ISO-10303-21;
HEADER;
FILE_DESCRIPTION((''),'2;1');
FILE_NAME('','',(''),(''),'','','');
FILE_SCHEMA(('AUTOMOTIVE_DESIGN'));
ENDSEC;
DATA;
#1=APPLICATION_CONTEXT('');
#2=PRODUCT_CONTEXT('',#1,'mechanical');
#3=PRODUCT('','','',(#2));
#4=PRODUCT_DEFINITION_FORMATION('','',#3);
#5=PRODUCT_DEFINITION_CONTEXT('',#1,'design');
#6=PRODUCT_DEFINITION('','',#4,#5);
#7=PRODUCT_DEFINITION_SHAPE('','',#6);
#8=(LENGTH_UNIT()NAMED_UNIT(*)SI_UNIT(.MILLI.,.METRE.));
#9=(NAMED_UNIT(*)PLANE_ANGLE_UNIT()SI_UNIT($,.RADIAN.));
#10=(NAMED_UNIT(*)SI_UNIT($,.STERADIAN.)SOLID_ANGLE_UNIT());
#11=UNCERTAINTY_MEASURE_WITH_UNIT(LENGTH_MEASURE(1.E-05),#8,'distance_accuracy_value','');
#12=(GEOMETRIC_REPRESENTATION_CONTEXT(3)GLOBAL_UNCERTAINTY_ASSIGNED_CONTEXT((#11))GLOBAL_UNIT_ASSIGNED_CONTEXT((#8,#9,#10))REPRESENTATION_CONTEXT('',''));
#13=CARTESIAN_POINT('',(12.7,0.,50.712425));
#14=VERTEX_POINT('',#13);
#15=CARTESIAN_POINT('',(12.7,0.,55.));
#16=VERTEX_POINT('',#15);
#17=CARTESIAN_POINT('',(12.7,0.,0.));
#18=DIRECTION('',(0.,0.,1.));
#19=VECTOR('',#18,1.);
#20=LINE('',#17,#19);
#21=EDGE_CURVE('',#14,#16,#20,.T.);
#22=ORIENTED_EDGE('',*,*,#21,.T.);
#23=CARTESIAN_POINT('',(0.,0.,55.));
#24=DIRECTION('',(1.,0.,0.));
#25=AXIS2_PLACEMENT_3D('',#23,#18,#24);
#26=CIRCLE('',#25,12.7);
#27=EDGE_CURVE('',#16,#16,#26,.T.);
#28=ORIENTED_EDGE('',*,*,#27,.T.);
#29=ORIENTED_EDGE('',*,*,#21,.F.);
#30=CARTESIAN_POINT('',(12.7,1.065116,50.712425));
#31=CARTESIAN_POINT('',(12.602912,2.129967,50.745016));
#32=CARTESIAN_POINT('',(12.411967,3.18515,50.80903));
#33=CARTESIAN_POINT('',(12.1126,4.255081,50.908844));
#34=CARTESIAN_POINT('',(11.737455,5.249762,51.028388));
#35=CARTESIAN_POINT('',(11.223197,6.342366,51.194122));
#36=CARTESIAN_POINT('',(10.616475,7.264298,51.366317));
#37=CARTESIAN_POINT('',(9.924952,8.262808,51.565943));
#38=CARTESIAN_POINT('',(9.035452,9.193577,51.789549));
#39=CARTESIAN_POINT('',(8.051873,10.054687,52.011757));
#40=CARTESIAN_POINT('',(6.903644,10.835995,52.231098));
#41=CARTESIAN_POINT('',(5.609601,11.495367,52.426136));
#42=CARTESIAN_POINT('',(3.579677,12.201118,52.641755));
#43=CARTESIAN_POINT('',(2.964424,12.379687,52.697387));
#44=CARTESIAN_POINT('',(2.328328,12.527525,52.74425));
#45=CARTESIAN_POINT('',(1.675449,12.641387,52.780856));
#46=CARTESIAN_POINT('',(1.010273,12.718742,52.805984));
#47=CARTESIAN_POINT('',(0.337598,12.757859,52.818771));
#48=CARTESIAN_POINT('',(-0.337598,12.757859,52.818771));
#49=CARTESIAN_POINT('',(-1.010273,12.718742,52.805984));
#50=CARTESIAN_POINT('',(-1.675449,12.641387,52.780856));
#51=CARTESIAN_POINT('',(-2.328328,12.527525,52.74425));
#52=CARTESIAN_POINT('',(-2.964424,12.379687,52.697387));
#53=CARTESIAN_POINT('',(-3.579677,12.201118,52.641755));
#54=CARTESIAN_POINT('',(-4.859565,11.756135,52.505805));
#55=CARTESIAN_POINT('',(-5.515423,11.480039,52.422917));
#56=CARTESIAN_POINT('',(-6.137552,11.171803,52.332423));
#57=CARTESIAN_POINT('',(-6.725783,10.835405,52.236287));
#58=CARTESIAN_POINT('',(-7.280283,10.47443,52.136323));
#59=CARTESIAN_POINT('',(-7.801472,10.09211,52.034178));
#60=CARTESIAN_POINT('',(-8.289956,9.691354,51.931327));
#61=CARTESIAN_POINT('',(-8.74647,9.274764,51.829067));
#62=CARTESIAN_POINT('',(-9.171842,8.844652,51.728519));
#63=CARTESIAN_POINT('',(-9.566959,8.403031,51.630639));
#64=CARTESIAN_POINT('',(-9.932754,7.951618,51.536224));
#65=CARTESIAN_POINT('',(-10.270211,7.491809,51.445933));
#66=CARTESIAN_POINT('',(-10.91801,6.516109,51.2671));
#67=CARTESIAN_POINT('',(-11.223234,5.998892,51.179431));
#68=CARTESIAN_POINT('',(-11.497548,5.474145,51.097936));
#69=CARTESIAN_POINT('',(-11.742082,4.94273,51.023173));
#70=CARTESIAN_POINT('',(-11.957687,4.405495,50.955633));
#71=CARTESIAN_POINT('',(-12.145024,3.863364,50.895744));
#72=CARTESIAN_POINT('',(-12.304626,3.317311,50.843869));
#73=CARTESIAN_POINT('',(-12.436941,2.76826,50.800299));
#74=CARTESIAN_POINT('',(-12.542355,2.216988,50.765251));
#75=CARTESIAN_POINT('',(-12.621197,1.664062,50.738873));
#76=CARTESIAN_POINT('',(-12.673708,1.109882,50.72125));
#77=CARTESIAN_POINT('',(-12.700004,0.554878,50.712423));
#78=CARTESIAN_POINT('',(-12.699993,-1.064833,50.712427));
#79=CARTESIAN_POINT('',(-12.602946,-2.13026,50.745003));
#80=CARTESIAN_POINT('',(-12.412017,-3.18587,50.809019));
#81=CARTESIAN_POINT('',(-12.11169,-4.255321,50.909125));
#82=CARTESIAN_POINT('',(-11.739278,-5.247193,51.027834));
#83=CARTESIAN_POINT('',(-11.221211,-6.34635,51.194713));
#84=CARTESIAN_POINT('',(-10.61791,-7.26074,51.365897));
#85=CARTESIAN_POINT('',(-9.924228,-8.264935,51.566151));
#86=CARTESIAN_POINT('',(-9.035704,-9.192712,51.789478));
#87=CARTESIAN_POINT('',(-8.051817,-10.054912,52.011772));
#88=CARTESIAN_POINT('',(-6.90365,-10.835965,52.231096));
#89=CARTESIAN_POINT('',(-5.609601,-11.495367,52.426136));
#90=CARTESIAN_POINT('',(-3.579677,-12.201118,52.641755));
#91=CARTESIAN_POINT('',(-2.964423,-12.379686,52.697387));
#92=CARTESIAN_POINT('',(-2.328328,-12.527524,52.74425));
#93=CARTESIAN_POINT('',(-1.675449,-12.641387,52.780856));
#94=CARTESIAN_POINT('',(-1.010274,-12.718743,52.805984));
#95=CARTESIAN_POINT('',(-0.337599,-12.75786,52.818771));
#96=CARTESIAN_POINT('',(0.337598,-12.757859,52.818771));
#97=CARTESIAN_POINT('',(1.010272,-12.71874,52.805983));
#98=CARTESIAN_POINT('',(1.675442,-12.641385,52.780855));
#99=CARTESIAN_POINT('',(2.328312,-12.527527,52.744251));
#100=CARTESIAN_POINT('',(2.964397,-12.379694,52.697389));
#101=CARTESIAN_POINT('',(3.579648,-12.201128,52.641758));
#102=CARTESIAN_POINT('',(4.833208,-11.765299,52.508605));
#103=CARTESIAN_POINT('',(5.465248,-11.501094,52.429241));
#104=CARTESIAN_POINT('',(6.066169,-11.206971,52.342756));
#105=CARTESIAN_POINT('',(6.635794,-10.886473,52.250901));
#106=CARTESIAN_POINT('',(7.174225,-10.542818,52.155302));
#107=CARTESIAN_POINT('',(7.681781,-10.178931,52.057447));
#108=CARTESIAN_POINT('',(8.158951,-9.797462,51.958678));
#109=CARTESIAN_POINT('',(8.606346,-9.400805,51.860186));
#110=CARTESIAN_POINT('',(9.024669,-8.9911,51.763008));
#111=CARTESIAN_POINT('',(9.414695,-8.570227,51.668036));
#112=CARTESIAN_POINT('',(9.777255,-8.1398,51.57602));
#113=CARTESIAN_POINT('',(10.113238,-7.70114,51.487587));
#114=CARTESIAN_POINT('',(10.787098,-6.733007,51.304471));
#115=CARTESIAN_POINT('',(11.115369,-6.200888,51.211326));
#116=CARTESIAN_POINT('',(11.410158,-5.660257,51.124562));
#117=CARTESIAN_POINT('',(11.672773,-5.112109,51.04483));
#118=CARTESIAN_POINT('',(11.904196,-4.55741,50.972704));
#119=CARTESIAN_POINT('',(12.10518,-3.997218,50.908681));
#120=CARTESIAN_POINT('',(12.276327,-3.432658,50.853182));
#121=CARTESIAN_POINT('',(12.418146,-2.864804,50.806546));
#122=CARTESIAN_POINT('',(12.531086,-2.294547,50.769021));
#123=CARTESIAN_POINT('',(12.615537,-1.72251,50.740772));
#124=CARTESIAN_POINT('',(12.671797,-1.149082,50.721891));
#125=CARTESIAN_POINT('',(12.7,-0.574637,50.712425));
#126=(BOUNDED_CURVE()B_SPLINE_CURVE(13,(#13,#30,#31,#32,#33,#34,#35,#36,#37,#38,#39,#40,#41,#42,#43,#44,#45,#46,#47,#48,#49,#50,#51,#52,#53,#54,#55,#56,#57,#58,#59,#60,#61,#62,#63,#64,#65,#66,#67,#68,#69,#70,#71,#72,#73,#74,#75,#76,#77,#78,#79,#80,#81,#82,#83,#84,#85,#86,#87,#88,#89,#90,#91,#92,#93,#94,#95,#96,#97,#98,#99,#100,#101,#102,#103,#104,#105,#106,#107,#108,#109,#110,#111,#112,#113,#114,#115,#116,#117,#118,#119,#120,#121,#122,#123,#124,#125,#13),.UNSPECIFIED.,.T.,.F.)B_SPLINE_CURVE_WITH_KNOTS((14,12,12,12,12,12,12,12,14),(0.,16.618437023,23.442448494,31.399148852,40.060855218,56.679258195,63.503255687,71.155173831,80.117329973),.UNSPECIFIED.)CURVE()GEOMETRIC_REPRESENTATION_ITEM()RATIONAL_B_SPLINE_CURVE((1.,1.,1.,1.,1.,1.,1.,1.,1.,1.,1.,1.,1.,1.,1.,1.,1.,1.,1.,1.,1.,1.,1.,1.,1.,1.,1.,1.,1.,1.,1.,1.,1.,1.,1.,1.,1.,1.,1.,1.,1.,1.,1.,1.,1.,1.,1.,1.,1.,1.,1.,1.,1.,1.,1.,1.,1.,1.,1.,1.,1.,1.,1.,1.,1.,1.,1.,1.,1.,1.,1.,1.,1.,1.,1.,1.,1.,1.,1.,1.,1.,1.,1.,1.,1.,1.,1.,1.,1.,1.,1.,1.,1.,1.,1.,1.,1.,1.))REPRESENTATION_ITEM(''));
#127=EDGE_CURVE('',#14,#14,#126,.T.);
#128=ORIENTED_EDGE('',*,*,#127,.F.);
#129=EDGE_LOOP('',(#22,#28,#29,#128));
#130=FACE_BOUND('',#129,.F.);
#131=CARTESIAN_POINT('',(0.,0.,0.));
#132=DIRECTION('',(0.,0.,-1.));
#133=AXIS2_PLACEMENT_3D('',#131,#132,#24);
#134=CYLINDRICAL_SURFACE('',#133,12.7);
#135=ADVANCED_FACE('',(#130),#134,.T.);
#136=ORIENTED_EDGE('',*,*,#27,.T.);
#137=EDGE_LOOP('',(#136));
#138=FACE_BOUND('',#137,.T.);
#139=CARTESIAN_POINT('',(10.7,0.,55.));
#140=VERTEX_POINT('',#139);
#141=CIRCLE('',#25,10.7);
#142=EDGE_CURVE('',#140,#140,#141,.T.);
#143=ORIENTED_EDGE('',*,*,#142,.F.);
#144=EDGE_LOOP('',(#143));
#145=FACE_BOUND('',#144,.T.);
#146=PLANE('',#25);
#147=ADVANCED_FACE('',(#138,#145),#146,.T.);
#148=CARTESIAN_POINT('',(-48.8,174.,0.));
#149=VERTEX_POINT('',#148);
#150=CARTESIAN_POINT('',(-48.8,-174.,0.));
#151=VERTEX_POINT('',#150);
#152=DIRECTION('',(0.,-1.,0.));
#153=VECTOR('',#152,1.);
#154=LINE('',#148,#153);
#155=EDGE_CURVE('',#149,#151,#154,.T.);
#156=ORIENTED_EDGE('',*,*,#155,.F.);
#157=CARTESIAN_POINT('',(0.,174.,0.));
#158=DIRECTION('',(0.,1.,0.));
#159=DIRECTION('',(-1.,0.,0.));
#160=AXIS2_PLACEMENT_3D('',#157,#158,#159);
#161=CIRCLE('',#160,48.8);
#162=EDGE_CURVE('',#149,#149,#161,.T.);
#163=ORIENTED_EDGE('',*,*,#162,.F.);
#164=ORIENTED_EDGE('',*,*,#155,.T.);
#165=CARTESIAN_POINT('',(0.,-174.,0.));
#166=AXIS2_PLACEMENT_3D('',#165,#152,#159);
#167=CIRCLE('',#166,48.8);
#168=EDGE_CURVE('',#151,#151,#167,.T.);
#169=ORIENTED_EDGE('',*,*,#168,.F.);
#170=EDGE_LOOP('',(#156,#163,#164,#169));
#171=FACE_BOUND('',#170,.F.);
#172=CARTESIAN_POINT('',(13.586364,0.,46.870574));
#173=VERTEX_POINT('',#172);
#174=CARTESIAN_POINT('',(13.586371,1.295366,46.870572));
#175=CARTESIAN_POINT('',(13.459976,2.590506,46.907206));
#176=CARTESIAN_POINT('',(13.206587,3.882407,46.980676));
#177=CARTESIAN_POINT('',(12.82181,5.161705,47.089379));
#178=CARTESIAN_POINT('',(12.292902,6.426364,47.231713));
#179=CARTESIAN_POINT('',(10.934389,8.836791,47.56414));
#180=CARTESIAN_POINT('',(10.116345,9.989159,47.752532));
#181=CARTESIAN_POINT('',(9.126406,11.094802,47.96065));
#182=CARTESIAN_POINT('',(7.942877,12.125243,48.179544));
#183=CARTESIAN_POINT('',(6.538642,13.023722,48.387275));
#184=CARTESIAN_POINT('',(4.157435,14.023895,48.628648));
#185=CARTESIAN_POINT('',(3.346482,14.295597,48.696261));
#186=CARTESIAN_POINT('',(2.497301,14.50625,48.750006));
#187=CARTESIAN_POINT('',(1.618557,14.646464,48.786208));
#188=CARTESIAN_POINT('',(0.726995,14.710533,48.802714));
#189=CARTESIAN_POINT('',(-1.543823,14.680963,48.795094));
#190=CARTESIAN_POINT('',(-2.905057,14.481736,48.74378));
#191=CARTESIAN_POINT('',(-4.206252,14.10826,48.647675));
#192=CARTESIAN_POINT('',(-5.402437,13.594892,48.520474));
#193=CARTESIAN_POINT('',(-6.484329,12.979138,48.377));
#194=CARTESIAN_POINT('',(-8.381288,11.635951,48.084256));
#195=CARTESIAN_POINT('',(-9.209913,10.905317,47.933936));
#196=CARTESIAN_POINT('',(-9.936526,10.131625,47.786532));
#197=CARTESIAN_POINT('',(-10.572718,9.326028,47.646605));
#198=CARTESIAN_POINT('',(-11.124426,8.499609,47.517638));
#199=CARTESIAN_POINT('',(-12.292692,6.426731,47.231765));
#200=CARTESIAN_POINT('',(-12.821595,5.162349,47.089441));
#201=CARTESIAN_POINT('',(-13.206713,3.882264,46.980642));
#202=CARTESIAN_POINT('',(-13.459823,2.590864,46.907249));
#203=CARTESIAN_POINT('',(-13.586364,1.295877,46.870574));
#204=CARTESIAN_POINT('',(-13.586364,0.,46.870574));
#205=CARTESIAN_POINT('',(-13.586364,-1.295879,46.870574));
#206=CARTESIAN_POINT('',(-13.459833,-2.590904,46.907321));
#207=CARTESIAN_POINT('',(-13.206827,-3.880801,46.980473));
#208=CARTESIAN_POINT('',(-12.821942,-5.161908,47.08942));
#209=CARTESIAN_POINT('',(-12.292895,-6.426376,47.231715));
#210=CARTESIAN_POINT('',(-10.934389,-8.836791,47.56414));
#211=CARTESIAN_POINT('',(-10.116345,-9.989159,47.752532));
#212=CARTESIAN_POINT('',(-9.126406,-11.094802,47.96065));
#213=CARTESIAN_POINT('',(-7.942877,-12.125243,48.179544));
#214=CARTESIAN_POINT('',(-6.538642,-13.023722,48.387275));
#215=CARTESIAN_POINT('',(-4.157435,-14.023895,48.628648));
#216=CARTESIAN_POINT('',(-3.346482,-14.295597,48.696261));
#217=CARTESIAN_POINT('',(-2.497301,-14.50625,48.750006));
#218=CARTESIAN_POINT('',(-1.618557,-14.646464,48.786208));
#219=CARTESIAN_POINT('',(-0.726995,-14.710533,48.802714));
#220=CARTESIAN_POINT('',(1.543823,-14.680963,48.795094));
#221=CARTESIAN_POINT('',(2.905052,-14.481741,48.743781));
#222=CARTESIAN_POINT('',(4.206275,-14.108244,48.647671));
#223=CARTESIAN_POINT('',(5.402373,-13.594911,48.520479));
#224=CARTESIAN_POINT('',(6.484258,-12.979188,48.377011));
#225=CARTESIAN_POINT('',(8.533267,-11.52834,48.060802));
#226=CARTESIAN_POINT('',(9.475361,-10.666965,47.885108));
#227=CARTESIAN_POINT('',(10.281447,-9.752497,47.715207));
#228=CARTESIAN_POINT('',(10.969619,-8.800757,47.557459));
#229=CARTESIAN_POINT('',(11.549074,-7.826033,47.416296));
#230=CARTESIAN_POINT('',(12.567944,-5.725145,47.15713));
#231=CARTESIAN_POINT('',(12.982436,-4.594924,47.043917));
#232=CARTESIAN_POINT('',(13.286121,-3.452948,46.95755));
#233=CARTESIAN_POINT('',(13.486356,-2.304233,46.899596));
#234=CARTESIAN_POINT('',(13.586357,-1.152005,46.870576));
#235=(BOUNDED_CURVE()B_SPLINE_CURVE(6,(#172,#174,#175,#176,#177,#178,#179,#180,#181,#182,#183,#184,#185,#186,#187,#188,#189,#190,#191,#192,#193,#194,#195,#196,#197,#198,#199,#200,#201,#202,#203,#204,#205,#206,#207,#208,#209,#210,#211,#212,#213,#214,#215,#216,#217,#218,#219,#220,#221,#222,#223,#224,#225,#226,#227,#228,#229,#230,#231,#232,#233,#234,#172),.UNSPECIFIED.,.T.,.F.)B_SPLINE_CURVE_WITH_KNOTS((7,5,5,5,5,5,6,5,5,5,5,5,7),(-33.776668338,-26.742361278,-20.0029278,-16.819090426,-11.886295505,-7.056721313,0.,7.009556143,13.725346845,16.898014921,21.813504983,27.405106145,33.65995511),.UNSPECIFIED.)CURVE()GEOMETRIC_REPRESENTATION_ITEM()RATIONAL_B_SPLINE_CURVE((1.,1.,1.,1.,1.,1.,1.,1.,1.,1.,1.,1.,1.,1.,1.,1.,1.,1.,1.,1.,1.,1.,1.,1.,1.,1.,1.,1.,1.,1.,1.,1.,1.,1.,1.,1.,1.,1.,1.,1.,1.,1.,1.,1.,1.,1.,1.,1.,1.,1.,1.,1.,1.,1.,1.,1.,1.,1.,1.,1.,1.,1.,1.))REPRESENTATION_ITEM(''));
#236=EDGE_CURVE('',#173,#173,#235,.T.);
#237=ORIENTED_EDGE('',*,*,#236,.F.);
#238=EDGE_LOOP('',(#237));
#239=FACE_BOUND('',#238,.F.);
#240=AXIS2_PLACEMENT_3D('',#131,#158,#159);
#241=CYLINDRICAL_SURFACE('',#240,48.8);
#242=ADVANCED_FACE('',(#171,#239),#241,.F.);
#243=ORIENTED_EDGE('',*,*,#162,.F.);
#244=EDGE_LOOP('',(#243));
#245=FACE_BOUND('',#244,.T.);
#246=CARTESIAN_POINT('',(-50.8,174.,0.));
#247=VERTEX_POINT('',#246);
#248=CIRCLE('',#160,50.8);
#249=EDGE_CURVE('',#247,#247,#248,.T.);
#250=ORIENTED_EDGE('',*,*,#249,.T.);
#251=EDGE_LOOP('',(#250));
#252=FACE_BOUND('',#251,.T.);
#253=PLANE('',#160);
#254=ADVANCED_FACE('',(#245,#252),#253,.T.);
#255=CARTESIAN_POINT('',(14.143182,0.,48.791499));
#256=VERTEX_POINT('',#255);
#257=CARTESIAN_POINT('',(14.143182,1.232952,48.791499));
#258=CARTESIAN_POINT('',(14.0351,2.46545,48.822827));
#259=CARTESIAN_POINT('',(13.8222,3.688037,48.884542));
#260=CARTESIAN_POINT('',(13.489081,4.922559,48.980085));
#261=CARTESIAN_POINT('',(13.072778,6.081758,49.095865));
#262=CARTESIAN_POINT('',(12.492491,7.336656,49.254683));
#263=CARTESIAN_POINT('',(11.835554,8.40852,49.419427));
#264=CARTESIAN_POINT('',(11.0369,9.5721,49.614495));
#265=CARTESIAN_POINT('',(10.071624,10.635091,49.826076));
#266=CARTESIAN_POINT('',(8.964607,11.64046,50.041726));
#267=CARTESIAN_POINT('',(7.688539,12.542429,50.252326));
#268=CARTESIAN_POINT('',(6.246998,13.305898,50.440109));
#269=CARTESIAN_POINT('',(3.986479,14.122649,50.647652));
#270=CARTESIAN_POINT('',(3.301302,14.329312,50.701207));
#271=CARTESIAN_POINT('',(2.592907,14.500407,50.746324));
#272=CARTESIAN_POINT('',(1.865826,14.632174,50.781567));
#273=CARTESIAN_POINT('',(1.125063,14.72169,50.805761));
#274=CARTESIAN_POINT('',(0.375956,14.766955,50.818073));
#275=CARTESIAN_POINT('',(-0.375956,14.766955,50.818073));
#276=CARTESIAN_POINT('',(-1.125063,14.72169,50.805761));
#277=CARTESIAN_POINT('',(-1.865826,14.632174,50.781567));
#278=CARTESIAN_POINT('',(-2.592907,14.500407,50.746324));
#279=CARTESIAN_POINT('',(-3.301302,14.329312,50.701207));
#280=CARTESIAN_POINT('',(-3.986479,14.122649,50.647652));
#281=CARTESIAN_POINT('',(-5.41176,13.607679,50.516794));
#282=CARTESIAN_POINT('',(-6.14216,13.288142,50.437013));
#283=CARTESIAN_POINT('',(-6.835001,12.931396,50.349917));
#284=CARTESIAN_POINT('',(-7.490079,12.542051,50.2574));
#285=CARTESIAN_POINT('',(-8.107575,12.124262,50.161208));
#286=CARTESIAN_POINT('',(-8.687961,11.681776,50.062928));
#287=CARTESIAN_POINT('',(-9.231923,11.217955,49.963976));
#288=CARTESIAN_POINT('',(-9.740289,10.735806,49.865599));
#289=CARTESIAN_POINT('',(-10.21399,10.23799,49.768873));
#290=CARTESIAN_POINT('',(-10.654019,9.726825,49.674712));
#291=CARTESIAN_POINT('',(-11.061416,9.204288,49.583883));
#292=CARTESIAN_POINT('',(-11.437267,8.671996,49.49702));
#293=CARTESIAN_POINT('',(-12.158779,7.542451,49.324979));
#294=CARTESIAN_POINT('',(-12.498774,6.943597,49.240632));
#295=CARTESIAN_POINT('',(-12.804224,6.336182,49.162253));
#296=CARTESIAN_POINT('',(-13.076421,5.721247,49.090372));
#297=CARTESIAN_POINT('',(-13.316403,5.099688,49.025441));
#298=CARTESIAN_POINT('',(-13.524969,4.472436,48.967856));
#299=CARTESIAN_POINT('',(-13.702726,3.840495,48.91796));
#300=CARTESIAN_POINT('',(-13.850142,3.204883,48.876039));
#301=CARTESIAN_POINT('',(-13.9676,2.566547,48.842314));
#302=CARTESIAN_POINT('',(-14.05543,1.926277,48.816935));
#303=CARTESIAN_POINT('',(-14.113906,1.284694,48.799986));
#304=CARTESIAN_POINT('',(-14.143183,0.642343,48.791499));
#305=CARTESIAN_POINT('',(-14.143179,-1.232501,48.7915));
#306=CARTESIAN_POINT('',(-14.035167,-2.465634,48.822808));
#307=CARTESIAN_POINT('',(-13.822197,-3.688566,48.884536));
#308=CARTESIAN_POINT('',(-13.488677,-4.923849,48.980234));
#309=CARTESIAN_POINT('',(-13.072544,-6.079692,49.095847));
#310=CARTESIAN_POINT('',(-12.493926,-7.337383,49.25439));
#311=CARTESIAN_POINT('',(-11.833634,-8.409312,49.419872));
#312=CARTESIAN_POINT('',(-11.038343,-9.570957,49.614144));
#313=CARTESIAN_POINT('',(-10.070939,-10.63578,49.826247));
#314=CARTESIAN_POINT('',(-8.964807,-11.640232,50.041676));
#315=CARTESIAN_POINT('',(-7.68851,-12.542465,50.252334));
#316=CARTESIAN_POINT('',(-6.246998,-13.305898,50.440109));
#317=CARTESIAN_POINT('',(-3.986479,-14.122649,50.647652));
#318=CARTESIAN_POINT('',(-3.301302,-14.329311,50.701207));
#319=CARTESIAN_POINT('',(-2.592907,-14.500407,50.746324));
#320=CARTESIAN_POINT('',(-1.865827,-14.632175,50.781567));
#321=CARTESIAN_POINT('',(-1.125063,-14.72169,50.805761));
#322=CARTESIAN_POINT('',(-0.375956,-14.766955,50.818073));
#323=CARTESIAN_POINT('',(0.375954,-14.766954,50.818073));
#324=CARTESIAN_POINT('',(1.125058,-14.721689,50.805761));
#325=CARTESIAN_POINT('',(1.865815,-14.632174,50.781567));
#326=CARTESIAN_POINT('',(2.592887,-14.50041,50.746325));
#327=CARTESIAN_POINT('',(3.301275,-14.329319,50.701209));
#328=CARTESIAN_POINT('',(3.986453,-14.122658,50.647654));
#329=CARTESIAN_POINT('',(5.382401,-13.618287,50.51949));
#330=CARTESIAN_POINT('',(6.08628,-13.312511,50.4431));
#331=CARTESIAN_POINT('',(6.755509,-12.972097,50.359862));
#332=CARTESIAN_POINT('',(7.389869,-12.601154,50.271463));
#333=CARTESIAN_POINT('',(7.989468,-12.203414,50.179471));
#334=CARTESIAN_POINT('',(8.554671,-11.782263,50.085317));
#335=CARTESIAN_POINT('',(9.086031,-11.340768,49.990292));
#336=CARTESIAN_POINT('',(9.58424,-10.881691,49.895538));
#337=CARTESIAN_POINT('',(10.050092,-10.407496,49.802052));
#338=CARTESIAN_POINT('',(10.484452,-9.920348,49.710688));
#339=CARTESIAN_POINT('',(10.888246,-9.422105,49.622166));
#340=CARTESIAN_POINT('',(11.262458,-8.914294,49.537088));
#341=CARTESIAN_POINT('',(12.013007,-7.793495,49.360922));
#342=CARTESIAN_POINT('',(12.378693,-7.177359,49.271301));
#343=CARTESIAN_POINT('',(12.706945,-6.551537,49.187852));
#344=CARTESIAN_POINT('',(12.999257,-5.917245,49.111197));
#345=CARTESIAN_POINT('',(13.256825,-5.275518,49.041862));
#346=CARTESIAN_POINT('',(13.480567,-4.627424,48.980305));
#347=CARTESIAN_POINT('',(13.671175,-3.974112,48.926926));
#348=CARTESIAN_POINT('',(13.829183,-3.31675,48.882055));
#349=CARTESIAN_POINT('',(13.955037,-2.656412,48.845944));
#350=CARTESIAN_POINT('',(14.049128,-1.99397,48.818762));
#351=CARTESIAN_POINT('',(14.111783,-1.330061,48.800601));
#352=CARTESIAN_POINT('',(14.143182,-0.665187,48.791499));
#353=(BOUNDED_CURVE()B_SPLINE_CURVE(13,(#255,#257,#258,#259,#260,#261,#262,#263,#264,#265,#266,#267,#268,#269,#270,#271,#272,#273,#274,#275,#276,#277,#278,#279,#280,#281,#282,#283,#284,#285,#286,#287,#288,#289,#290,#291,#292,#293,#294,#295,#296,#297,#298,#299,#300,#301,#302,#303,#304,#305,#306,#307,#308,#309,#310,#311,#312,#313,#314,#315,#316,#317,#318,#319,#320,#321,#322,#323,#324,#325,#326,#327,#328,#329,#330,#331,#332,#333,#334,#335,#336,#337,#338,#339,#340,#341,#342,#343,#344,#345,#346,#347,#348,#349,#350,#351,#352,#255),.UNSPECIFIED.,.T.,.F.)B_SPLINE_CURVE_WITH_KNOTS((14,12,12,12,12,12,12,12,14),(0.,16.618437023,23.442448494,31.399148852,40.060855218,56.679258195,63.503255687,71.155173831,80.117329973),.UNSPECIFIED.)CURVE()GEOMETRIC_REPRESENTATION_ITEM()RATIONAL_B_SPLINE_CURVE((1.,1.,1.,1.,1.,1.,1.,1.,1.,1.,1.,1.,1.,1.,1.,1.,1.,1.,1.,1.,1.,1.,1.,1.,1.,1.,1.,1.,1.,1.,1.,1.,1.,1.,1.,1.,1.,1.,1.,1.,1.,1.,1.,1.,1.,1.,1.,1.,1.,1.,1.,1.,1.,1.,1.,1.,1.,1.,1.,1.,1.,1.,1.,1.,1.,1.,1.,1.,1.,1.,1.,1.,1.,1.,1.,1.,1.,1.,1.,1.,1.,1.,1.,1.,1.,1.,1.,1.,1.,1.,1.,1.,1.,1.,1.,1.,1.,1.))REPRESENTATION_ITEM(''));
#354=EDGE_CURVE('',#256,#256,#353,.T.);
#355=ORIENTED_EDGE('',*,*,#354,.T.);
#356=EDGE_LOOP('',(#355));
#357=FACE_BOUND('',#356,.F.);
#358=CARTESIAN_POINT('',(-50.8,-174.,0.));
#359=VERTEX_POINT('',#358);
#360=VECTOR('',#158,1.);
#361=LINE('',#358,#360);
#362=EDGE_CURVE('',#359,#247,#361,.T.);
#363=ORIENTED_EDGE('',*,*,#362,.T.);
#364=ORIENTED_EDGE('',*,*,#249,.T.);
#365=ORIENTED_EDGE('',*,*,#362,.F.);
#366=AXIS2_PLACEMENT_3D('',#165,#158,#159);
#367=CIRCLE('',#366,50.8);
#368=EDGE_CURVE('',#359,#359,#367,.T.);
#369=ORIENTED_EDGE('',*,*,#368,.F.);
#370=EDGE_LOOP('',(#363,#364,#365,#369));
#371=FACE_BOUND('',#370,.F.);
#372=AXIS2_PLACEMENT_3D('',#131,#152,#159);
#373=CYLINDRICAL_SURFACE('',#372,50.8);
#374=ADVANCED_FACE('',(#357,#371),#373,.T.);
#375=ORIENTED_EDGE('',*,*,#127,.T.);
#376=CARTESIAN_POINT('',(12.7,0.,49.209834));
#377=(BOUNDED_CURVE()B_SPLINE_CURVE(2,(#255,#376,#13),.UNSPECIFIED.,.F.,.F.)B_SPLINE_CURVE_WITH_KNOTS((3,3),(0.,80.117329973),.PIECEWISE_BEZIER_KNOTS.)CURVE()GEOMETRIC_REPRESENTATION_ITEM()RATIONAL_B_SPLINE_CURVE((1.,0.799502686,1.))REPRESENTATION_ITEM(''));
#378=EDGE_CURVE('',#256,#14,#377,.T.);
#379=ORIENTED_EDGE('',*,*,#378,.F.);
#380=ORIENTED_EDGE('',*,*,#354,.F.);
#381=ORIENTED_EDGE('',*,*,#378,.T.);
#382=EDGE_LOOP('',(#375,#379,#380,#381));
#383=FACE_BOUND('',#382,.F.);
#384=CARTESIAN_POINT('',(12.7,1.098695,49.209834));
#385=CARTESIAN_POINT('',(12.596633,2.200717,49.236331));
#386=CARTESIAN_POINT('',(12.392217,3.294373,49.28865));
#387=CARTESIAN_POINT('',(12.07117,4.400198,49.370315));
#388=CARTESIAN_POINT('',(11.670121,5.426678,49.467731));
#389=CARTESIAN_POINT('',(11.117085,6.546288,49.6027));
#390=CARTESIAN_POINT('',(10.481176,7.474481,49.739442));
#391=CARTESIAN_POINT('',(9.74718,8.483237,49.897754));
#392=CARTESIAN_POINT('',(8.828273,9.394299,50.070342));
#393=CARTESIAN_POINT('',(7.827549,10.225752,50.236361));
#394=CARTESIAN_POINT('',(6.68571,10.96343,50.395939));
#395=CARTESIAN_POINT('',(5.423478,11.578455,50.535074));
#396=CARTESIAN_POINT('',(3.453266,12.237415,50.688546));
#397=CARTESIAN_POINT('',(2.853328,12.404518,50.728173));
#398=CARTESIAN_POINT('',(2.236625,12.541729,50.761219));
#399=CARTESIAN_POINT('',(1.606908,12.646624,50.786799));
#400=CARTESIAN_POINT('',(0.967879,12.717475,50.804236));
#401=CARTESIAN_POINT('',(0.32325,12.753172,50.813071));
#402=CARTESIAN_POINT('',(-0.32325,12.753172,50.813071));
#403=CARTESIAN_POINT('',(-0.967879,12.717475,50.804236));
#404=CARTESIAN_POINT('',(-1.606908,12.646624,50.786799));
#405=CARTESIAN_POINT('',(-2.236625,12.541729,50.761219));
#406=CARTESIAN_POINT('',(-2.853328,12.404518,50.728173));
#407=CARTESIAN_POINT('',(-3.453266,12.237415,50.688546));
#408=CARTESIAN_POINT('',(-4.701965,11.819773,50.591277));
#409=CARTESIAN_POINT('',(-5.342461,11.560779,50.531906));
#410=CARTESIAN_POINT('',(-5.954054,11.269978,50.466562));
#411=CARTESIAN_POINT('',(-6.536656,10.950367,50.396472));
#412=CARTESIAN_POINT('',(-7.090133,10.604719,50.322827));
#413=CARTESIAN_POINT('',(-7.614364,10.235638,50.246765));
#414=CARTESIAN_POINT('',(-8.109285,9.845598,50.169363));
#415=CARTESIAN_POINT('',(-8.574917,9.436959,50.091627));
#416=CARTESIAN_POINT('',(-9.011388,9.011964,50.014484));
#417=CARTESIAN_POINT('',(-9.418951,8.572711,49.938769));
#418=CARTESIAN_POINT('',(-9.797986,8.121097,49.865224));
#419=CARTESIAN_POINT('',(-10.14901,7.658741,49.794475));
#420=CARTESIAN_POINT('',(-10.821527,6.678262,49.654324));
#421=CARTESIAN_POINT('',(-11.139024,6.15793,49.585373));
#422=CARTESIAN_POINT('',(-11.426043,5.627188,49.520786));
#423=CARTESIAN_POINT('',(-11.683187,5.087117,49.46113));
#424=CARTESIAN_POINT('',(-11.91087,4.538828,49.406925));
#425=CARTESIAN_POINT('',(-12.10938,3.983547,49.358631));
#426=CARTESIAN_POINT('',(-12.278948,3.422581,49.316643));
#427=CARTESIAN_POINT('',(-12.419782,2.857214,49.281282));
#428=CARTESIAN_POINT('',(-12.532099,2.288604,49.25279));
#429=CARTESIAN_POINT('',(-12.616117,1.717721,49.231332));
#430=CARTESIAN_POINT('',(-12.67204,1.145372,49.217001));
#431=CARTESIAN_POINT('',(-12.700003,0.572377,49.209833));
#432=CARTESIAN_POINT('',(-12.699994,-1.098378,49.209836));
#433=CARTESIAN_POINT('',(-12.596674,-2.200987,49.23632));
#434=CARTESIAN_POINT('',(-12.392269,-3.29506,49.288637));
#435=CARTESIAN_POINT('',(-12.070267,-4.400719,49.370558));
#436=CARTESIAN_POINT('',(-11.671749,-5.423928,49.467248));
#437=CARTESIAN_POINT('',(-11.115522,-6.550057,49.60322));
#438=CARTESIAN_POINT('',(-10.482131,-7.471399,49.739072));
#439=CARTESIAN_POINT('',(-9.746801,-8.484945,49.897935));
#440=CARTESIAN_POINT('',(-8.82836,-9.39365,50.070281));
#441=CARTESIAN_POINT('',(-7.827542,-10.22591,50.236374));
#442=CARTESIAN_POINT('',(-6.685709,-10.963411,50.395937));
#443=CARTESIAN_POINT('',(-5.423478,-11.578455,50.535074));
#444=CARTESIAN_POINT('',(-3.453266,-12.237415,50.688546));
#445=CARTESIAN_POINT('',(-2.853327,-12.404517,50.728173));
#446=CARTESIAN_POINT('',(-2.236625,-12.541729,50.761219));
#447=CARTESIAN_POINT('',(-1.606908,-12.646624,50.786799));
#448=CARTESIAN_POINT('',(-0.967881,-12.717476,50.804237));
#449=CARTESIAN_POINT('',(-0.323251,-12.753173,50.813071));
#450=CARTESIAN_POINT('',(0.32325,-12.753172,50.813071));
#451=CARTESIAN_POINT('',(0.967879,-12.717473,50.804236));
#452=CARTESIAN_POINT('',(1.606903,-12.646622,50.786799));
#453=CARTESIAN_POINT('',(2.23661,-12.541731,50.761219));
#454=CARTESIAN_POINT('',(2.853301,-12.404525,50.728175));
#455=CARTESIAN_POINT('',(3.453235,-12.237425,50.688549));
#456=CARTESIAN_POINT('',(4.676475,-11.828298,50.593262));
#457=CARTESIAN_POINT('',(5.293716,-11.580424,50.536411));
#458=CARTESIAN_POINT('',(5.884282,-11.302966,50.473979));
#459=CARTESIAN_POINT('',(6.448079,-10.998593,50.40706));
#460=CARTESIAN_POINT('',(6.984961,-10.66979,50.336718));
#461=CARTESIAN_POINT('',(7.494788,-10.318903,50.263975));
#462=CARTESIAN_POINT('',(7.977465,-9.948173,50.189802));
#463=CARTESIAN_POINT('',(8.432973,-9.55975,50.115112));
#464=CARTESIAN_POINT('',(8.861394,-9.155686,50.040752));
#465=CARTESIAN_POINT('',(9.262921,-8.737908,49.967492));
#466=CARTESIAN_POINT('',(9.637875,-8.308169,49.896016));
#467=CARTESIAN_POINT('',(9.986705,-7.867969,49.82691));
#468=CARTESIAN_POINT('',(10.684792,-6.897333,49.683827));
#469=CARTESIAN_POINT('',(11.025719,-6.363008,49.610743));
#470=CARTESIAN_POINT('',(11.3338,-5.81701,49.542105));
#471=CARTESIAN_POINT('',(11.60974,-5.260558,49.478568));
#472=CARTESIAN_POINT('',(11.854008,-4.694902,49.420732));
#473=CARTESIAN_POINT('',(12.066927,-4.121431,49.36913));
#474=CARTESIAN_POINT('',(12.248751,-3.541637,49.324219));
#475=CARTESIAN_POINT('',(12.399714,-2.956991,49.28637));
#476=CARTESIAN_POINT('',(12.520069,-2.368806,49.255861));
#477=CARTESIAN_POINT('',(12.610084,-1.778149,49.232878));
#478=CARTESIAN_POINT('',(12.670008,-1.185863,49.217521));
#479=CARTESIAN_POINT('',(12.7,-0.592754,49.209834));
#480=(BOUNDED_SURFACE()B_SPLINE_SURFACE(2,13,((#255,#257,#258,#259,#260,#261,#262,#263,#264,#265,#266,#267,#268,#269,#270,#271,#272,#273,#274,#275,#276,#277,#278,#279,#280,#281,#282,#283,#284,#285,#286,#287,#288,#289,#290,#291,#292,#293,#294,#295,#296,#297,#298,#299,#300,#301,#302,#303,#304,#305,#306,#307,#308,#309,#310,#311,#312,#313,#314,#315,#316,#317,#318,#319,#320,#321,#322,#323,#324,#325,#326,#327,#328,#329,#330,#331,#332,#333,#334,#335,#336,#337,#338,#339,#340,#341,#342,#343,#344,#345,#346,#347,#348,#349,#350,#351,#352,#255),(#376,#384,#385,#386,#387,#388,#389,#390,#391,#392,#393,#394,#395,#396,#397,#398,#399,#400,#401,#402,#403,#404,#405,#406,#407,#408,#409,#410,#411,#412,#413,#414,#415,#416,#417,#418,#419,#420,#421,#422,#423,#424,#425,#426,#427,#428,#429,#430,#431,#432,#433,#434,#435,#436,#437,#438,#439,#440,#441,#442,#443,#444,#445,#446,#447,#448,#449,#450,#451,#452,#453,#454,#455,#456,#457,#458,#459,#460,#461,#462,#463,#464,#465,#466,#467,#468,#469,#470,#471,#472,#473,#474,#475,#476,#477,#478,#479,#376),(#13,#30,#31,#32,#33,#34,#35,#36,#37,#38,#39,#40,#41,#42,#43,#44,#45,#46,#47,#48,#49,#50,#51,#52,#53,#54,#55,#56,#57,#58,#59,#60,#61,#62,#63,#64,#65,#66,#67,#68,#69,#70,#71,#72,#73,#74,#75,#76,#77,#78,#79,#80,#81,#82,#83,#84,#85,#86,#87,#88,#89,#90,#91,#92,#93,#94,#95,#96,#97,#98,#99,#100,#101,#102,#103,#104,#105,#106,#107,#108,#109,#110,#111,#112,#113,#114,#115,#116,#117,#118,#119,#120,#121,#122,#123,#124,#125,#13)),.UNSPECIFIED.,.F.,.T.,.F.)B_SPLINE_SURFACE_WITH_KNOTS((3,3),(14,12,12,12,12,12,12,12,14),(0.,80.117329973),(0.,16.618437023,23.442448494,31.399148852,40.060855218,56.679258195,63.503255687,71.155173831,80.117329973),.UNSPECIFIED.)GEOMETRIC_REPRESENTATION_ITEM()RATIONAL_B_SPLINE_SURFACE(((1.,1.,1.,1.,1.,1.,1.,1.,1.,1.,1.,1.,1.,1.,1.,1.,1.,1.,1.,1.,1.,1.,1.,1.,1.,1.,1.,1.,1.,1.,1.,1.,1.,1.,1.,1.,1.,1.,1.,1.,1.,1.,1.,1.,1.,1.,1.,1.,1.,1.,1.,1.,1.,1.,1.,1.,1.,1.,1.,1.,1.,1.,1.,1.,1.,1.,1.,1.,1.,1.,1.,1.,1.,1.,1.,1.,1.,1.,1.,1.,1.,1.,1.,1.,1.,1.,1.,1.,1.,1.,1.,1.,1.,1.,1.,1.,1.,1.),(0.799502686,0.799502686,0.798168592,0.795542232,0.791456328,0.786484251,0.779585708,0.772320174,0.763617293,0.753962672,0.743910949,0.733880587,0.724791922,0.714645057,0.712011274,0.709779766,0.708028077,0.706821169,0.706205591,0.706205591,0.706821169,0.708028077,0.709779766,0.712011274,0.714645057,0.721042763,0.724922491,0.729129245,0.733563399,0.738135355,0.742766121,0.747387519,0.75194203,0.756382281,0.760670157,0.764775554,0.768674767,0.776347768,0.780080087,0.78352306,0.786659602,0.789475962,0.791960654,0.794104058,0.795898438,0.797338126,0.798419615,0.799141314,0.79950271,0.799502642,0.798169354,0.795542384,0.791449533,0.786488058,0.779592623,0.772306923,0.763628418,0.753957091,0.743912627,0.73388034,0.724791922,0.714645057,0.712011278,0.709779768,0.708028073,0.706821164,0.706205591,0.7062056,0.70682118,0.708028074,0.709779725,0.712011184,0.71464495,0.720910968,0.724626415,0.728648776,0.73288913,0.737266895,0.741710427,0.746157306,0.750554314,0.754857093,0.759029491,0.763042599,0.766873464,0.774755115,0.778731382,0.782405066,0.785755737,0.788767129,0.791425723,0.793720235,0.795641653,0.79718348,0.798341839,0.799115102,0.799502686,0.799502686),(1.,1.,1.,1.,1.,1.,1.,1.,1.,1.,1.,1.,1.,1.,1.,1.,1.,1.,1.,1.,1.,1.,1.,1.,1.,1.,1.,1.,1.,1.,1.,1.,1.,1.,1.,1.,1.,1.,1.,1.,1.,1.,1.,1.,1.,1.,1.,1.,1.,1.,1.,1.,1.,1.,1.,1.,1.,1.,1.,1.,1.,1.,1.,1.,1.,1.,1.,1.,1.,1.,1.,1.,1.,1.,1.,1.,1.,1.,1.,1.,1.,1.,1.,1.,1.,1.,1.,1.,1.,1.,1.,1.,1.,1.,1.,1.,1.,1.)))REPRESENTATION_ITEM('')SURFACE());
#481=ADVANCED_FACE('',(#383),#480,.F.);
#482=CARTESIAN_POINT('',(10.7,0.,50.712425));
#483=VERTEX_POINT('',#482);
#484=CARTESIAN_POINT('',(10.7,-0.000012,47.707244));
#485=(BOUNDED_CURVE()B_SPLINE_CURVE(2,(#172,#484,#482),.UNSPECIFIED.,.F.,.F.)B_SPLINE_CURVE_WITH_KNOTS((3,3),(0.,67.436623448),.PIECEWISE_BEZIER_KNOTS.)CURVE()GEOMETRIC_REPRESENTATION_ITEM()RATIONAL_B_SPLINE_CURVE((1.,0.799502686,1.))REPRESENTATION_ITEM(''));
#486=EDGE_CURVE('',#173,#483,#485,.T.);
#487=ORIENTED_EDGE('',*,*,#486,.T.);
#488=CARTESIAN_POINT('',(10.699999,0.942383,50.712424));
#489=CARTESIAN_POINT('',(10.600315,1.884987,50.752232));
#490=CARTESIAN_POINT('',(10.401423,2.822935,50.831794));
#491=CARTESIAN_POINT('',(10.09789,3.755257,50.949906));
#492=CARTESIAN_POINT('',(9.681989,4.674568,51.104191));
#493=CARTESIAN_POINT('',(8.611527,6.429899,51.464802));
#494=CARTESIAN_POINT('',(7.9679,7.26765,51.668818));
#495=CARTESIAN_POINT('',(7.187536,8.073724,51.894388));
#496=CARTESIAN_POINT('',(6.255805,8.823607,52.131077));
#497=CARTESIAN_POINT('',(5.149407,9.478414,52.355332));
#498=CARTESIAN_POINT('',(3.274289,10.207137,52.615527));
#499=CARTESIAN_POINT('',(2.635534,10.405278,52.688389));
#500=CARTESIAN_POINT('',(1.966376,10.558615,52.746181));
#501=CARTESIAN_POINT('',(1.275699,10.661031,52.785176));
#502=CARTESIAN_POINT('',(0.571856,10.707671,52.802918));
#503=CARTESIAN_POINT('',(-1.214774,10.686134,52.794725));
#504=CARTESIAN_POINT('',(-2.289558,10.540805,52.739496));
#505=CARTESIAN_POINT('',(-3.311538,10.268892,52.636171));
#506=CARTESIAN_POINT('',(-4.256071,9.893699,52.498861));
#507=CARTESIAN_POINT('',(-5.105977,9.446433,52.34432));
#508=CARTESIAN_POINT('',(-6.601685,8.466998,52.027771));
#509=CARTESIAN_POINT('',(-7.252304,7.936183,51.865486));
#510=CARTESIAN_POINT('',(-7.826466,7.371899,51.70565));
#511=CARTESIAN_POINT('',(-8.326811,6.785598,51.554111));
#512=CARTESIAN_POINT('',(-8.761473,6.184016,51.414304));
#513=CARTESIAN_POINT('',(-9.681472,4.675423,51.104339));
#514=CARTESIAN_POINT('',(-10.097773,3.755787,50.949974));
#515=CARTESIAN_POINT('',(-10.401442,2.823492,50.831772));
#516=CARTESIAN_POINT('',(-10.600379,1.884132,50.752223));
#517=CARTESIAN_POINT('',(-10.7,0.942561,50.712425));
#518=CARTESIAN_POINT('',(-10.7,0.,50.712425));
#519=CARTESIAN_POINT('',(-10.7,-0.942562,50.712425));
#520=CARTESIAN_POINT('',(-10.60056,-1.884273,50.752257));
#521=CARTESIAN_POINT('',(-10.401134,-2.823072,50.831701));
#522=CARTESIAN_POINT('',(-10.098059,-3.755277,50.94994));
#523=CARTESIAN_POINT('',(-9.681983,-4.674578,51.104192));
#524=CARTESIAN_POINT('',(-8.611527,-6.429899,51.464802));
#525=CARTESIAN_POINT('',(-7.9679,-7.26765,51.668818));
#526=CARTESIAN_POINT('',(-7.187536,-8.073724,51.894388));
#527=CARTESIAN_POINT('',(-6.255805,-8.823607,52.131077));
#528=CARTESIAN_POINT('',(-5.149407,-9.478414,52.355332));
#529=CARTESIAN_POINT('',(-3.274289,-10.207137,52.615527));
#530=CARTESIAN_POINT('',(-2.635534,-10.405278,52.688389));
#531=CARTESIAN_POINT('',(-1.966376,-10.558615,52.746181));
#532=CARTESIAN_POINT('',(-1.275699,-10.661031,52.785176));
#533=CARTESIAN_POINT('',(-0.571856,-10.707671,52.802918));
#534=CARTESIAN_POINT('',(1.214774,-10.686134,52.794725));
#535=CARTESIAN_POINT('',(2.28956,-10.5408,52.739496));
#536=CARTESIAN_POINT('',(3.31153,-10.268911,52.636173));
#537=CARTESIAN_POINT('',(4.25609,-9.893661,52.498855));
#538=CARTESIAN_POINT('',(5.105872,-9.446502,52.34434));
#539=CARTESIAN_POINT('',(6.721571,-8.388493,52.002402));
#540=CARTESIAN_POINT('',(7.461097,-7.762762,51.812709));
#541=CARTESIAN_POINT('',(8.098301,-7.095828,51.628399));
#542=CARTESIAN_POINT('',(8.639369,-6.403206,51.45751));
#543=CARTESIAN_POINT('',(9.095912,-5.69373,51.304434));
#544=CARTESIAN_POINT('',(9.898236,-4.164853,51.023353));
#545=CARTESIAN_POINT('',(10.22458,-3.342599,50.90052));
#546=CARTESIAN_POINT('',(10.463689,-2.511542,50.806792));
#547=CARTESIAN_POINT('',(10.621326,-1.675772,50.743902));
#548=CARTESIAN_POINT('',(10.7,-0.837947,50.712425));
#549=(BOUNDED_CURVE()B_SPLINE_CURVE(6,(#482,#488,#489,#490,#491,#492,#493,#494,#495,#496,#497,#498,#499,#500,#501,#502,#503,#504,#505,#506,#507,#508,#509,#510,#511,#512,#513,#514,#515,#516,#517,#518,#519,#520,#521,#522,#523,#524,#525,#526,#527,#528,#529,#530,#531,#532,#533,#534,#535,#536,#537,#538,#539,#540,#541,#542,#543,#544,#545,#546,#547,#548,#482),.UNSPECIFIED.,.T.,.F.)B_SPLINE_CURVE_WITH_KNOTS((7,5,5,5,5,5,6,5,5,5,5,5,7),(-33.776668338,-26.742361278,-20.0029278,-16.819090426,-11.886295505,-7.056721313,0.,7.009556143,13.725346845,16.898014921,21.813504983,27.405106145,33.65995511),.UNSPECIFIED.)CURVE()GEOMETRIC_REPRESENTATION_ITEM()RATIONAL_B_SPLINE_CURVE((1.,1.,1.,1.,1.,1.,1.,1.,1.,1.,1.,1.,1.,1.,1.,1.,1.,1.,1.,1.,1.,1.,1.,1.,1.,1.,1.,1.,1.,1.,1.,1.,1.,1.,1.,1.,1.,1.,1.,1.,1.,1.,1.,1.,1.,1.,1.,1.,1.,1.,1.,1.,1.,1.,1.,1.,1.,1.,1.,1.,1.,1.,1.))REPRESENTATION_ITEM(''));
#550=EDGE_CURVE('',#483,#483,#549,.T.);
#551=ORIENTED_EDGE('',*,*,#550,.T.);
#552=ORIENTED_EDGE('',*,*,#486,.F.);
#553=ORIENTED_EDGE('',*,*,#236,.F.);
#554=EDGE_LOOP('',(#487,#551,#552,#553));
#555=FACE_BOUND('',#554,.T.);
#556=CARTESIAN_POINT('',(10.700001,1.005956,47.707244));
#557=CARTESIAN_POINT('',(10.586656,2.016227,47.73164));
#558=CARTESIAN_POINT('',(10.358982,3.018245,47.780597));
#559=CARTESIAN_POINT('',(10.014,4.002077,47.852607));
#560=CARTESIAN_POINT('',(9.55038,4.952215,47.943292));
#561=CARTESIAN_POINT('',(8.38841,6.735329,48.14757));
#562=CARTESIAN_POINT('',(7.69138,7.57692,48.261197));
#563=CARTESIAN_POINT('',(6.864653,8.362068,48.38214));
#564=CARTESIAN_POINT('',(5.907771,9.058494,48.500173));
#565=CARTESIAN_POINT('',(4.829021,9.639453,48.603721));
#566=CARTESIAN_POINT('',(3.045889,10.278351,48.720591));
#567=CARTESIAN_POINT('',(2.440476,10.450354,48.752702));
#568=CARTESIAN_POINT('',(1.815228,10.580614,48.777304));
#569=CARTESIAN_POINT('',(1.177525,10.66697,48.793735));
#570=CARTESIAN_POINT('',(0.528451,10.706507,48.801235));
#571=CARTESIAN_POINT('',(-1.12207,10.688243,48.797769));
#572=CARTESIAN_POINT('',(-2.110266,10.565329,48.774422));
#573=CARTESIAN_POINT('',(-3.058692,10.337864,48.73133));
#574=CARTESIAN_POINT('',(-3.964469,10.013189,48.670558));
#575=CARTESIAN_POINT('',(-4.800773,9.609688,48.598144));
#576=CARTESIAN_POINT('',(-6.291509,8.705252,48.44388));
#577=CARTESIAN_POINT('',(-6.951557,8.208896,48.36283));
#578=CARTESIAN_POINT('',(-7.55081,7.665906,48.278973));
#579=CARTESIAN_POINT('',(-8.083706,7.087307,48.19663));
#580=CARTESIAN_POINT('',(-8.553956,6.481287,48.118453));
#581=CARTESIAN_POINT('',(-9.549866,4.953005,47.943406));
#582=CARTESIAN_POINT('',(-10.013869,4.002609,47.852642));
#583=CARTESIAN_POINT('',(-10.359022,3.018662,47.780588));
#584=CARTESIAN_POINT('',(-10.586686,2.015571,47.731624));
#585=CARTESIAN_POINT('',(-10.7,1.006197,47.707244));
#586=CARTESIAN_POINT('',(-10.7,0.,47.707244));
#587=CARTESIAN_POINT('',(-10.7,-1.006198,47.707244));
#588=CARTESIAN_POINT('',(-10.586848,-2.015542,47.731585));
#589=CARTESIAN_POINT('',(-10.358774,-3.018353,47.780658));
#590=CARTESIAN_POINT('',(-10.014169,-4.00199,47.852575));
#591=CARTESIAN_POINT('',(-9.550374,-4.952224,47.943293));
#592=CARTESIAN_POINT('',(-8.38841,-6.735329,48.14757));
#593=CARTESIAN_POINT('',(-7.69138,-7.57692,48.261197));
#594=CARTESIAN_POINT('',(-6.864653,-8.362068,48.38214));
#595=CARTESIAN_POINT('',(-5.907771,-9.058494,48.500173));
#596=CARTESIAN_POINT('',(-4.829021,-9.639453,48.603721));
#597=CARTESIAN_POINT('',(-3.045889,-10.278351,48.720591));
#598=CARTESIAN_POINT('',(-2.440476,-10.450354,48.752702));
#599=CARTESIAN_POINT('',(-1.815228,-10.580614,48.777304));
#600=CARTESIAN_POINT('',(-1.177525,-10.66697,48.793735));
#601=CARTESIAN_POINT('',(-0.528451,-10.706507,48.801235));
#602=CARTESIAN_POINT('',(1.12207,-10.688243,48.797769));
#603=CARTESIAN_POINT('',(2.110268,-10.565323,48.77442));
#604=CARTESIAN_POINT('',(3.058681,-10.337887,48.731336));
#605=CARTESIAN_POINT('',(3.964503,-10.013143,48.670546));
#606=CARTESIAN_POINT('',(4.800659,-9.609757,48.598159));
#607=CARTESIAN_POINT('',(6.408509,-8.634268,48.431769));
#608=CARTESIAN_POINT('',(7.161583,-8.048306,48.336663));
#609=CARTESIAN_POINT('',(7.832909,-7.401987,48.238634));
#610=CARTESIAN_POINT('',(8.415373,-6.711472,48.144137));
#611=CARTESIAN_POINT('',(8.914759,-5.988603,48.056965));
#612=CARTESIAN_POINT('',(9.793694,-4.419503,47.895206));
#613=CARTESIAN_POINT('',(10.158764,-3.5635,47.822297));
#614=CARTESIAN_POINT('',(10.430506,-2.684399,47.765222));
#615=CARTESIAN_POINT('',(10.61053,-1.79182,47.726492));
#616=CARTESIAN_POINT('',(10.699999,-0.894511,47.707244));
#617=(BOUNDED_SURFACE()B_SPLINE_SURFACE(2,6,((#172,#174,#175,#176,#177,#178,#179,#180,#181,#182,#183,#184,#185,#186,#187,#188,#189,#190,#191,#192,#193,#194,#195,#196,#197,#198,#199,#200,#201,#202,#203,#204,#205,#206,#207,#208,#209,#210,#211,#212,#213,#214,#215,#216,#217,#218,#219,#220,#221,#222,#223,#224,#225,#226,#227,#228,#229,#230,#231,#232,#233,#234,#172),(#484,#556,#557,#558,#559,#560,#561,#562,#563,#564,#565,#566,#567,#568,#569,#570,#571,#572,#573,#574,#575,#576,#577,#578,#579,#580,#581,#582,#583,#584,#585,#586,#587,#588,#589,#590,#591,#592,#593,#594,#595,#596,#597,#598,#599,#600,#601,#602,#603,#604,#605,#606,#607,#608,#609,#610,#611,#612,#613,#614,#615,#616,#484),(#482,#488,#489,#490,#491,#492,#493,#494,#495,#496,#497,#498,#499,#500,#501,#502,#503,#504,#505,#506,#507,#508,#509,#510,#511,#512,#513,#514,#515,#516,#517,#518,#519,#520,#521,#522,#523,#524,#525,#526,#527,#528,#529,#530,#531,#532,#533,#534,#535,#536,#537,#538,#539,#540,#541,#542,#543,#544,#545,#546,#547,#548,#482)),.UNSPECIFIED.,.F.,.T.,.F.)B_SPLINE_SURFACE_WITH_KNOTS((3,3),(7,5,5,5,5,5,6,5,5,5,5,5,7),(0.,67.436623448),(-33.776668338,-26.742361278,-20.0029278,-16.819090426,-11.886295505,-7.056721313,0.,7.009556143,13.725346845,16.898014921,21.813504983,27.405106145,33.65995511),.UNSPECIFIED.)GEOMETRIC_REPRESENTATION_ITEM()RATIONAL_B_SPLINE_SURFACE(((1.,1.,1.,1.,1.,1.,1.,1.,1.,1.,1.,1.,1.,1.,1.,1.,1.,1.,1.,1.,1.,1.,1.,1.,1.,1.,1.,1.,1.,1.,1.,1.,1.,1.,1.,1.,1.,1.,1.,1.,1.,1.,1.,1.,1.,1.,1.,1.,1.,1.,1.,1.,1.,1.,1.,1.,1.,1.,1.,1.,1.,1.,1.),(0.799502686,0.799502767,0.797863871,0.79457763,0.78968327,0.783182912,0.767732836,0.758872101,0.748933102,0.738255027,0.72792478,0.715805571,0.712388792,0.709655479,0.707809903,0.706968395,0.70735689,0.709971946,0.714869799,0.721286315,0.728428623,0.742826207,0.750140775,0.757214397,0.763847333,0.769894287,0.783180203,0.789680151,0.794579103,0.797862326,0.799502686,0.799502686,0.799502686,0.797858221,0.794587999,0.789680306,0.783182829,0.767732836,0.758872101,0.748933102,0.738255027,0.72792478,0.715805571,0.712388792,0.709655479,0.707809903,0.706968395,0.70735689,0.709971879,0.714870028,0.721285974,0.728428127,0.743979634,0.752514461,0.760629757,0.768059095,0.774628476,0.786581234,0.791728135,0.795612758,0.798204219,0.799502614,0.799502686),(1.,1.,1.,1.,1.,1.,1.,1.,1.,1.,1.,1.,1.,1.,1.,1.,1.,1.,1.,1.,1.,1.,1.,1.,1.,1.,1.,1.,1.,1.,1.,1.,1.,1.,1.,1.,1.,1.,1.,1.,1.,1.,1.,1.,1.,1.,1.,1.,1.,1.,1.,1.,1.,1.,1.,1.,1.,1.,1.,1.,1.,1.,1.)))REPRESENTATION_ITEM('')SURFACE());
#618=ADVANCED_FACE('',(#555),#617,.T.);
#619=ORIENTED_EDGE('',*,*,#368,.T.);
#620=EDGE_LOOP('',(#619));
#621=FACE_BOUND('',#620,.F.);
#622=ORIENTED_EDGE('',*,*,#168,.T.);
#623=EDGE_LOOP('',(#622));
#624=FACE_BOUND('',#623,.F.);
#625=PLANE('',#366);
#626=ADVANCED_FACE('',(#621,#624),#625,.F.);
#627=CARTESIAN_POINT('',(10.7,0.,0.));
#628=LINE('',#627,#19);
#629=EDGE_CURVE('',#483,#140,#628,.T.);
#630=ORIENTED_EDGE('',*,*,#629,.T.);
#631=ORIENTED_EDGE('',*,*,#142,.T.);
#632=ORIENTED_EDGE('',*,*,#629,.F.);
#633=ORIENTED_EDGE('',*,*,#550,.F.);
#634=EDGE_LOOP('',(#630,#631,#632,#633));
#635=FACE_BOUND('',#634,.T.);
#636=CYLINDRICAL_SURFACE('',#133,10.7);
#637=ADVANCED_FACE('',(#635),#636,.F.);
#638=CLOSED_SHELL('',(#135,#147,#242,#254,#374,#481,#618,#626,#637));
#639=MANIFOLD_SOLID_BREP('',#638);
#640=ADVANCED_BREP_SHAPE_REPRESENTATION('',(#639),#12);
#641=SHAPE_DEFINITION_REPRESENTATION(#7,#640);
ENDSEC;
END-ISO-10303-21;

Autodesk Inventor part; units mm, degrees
ref_plane "YZ Plane" through (0, 0, 0) normal (1, 0, 0) x (0, 1, 0)
ref_plane "XZ Plane" through (0, 0, 0) normal (0, 1, 0) x (-1, 0, 0)
ref_plane "XY Plane" through (0, 0, 0) normal (0, 0, 1) x (1, 0, 0)
sketch "Szkic8" plane through (0, 0, 0) normal (0, 1, 0) x (-1, 0, 0)
  circle A0 centre (0, 0) radius 50.8
  circle A1 centre (0, 0) radius 48.8
  dimension "d53" = 101.6
  dimension "d54" = 2
extrude "Wyciągnięcie proste2" add sketch "Szkic8" along normal mid plane 348
sketch "Szkic13" plane through (0, 0, 0) normal (0, 0, 1) x (1, 0, 0)
  circle A0 centre (0, 0) radius 12.7
  circle A1 centre (0, 0) radius 10.7
  dimension "d67" = 25.4
  dimension "d68" = 2
extrude "Wyciągnięcie proste6" add sketch "Szkic13" along normal blind 55
sketch "Szkic14" plane through (0, 0, 55) normal (0, 0, 1) x (1, 0, 0)
  circle A0 centre (0, 0) radius 10.7 projected
extrude "Wyciągnięcie proste7" cut sketch "Szkic14" against normal blind 55
sketch "Szkic15" plane through (0, -174, 0) normal (0, -1, 0) x (1, 0, 0)
  circle A0 centre (0, 0) radius 48.8 projected
extrude "Wyciągnięcie proste8" cut sketch "Szkic15" against normal blind 348
fillet "Zaokrąglenie3" radius 2 2 edges at (0, 12.7, 50.8) (-0.0026, -12.7, 50.8)
fillet "Zaokrąglenie4" radius 4 2 edges at (0.0357, -10.6999, 48.8) (-0.0345, 10.6999, 48.8)
equation "\"d53\" = OD"
equation "\"d54\" = THK"
equation "\"d55\" = L1"
equation "\"d67\" = OD2"
equation "\"d68\" = THK"
equation "\"d69\" = L2"
equation "\"d71\" = L2"
equation "\"d73\" = L1"
equation "\"d75\" = THK"
equation "\"d76\" = 2 * THK"
equation "\"SzerokośćGięciaPodcięcia\" = Grubość"
equation "\"RozmiarPodcięciaNarożnika\" = 4 * Grubość"
equation "\"PromieńPrzejścia\" = PromieńGięcia"
equation "\"Rozmiar_promienia_Jacobiego\" = PromieńGięcia"
equation "\"Wielk_odstępu\" = Grubość"
equation "\"d2\" = PromieńGięcia"
equation "\"d23\" = PromieńGięcia"
equation "\"OD\" = 101.6"
equation "\"THK\" = 2"
equation "\"L1\" = 348"
equation "\"L2\" = 55"
equation "\"OD2\" = 25.4"
equation "\"Grubość\" = 1.5"
equation "\"PromieńGięcia\" = 3"
properties part number "Trójnik red. krótki  Ø101,6 25,4 101,6 s=2 L=348" material "304"
